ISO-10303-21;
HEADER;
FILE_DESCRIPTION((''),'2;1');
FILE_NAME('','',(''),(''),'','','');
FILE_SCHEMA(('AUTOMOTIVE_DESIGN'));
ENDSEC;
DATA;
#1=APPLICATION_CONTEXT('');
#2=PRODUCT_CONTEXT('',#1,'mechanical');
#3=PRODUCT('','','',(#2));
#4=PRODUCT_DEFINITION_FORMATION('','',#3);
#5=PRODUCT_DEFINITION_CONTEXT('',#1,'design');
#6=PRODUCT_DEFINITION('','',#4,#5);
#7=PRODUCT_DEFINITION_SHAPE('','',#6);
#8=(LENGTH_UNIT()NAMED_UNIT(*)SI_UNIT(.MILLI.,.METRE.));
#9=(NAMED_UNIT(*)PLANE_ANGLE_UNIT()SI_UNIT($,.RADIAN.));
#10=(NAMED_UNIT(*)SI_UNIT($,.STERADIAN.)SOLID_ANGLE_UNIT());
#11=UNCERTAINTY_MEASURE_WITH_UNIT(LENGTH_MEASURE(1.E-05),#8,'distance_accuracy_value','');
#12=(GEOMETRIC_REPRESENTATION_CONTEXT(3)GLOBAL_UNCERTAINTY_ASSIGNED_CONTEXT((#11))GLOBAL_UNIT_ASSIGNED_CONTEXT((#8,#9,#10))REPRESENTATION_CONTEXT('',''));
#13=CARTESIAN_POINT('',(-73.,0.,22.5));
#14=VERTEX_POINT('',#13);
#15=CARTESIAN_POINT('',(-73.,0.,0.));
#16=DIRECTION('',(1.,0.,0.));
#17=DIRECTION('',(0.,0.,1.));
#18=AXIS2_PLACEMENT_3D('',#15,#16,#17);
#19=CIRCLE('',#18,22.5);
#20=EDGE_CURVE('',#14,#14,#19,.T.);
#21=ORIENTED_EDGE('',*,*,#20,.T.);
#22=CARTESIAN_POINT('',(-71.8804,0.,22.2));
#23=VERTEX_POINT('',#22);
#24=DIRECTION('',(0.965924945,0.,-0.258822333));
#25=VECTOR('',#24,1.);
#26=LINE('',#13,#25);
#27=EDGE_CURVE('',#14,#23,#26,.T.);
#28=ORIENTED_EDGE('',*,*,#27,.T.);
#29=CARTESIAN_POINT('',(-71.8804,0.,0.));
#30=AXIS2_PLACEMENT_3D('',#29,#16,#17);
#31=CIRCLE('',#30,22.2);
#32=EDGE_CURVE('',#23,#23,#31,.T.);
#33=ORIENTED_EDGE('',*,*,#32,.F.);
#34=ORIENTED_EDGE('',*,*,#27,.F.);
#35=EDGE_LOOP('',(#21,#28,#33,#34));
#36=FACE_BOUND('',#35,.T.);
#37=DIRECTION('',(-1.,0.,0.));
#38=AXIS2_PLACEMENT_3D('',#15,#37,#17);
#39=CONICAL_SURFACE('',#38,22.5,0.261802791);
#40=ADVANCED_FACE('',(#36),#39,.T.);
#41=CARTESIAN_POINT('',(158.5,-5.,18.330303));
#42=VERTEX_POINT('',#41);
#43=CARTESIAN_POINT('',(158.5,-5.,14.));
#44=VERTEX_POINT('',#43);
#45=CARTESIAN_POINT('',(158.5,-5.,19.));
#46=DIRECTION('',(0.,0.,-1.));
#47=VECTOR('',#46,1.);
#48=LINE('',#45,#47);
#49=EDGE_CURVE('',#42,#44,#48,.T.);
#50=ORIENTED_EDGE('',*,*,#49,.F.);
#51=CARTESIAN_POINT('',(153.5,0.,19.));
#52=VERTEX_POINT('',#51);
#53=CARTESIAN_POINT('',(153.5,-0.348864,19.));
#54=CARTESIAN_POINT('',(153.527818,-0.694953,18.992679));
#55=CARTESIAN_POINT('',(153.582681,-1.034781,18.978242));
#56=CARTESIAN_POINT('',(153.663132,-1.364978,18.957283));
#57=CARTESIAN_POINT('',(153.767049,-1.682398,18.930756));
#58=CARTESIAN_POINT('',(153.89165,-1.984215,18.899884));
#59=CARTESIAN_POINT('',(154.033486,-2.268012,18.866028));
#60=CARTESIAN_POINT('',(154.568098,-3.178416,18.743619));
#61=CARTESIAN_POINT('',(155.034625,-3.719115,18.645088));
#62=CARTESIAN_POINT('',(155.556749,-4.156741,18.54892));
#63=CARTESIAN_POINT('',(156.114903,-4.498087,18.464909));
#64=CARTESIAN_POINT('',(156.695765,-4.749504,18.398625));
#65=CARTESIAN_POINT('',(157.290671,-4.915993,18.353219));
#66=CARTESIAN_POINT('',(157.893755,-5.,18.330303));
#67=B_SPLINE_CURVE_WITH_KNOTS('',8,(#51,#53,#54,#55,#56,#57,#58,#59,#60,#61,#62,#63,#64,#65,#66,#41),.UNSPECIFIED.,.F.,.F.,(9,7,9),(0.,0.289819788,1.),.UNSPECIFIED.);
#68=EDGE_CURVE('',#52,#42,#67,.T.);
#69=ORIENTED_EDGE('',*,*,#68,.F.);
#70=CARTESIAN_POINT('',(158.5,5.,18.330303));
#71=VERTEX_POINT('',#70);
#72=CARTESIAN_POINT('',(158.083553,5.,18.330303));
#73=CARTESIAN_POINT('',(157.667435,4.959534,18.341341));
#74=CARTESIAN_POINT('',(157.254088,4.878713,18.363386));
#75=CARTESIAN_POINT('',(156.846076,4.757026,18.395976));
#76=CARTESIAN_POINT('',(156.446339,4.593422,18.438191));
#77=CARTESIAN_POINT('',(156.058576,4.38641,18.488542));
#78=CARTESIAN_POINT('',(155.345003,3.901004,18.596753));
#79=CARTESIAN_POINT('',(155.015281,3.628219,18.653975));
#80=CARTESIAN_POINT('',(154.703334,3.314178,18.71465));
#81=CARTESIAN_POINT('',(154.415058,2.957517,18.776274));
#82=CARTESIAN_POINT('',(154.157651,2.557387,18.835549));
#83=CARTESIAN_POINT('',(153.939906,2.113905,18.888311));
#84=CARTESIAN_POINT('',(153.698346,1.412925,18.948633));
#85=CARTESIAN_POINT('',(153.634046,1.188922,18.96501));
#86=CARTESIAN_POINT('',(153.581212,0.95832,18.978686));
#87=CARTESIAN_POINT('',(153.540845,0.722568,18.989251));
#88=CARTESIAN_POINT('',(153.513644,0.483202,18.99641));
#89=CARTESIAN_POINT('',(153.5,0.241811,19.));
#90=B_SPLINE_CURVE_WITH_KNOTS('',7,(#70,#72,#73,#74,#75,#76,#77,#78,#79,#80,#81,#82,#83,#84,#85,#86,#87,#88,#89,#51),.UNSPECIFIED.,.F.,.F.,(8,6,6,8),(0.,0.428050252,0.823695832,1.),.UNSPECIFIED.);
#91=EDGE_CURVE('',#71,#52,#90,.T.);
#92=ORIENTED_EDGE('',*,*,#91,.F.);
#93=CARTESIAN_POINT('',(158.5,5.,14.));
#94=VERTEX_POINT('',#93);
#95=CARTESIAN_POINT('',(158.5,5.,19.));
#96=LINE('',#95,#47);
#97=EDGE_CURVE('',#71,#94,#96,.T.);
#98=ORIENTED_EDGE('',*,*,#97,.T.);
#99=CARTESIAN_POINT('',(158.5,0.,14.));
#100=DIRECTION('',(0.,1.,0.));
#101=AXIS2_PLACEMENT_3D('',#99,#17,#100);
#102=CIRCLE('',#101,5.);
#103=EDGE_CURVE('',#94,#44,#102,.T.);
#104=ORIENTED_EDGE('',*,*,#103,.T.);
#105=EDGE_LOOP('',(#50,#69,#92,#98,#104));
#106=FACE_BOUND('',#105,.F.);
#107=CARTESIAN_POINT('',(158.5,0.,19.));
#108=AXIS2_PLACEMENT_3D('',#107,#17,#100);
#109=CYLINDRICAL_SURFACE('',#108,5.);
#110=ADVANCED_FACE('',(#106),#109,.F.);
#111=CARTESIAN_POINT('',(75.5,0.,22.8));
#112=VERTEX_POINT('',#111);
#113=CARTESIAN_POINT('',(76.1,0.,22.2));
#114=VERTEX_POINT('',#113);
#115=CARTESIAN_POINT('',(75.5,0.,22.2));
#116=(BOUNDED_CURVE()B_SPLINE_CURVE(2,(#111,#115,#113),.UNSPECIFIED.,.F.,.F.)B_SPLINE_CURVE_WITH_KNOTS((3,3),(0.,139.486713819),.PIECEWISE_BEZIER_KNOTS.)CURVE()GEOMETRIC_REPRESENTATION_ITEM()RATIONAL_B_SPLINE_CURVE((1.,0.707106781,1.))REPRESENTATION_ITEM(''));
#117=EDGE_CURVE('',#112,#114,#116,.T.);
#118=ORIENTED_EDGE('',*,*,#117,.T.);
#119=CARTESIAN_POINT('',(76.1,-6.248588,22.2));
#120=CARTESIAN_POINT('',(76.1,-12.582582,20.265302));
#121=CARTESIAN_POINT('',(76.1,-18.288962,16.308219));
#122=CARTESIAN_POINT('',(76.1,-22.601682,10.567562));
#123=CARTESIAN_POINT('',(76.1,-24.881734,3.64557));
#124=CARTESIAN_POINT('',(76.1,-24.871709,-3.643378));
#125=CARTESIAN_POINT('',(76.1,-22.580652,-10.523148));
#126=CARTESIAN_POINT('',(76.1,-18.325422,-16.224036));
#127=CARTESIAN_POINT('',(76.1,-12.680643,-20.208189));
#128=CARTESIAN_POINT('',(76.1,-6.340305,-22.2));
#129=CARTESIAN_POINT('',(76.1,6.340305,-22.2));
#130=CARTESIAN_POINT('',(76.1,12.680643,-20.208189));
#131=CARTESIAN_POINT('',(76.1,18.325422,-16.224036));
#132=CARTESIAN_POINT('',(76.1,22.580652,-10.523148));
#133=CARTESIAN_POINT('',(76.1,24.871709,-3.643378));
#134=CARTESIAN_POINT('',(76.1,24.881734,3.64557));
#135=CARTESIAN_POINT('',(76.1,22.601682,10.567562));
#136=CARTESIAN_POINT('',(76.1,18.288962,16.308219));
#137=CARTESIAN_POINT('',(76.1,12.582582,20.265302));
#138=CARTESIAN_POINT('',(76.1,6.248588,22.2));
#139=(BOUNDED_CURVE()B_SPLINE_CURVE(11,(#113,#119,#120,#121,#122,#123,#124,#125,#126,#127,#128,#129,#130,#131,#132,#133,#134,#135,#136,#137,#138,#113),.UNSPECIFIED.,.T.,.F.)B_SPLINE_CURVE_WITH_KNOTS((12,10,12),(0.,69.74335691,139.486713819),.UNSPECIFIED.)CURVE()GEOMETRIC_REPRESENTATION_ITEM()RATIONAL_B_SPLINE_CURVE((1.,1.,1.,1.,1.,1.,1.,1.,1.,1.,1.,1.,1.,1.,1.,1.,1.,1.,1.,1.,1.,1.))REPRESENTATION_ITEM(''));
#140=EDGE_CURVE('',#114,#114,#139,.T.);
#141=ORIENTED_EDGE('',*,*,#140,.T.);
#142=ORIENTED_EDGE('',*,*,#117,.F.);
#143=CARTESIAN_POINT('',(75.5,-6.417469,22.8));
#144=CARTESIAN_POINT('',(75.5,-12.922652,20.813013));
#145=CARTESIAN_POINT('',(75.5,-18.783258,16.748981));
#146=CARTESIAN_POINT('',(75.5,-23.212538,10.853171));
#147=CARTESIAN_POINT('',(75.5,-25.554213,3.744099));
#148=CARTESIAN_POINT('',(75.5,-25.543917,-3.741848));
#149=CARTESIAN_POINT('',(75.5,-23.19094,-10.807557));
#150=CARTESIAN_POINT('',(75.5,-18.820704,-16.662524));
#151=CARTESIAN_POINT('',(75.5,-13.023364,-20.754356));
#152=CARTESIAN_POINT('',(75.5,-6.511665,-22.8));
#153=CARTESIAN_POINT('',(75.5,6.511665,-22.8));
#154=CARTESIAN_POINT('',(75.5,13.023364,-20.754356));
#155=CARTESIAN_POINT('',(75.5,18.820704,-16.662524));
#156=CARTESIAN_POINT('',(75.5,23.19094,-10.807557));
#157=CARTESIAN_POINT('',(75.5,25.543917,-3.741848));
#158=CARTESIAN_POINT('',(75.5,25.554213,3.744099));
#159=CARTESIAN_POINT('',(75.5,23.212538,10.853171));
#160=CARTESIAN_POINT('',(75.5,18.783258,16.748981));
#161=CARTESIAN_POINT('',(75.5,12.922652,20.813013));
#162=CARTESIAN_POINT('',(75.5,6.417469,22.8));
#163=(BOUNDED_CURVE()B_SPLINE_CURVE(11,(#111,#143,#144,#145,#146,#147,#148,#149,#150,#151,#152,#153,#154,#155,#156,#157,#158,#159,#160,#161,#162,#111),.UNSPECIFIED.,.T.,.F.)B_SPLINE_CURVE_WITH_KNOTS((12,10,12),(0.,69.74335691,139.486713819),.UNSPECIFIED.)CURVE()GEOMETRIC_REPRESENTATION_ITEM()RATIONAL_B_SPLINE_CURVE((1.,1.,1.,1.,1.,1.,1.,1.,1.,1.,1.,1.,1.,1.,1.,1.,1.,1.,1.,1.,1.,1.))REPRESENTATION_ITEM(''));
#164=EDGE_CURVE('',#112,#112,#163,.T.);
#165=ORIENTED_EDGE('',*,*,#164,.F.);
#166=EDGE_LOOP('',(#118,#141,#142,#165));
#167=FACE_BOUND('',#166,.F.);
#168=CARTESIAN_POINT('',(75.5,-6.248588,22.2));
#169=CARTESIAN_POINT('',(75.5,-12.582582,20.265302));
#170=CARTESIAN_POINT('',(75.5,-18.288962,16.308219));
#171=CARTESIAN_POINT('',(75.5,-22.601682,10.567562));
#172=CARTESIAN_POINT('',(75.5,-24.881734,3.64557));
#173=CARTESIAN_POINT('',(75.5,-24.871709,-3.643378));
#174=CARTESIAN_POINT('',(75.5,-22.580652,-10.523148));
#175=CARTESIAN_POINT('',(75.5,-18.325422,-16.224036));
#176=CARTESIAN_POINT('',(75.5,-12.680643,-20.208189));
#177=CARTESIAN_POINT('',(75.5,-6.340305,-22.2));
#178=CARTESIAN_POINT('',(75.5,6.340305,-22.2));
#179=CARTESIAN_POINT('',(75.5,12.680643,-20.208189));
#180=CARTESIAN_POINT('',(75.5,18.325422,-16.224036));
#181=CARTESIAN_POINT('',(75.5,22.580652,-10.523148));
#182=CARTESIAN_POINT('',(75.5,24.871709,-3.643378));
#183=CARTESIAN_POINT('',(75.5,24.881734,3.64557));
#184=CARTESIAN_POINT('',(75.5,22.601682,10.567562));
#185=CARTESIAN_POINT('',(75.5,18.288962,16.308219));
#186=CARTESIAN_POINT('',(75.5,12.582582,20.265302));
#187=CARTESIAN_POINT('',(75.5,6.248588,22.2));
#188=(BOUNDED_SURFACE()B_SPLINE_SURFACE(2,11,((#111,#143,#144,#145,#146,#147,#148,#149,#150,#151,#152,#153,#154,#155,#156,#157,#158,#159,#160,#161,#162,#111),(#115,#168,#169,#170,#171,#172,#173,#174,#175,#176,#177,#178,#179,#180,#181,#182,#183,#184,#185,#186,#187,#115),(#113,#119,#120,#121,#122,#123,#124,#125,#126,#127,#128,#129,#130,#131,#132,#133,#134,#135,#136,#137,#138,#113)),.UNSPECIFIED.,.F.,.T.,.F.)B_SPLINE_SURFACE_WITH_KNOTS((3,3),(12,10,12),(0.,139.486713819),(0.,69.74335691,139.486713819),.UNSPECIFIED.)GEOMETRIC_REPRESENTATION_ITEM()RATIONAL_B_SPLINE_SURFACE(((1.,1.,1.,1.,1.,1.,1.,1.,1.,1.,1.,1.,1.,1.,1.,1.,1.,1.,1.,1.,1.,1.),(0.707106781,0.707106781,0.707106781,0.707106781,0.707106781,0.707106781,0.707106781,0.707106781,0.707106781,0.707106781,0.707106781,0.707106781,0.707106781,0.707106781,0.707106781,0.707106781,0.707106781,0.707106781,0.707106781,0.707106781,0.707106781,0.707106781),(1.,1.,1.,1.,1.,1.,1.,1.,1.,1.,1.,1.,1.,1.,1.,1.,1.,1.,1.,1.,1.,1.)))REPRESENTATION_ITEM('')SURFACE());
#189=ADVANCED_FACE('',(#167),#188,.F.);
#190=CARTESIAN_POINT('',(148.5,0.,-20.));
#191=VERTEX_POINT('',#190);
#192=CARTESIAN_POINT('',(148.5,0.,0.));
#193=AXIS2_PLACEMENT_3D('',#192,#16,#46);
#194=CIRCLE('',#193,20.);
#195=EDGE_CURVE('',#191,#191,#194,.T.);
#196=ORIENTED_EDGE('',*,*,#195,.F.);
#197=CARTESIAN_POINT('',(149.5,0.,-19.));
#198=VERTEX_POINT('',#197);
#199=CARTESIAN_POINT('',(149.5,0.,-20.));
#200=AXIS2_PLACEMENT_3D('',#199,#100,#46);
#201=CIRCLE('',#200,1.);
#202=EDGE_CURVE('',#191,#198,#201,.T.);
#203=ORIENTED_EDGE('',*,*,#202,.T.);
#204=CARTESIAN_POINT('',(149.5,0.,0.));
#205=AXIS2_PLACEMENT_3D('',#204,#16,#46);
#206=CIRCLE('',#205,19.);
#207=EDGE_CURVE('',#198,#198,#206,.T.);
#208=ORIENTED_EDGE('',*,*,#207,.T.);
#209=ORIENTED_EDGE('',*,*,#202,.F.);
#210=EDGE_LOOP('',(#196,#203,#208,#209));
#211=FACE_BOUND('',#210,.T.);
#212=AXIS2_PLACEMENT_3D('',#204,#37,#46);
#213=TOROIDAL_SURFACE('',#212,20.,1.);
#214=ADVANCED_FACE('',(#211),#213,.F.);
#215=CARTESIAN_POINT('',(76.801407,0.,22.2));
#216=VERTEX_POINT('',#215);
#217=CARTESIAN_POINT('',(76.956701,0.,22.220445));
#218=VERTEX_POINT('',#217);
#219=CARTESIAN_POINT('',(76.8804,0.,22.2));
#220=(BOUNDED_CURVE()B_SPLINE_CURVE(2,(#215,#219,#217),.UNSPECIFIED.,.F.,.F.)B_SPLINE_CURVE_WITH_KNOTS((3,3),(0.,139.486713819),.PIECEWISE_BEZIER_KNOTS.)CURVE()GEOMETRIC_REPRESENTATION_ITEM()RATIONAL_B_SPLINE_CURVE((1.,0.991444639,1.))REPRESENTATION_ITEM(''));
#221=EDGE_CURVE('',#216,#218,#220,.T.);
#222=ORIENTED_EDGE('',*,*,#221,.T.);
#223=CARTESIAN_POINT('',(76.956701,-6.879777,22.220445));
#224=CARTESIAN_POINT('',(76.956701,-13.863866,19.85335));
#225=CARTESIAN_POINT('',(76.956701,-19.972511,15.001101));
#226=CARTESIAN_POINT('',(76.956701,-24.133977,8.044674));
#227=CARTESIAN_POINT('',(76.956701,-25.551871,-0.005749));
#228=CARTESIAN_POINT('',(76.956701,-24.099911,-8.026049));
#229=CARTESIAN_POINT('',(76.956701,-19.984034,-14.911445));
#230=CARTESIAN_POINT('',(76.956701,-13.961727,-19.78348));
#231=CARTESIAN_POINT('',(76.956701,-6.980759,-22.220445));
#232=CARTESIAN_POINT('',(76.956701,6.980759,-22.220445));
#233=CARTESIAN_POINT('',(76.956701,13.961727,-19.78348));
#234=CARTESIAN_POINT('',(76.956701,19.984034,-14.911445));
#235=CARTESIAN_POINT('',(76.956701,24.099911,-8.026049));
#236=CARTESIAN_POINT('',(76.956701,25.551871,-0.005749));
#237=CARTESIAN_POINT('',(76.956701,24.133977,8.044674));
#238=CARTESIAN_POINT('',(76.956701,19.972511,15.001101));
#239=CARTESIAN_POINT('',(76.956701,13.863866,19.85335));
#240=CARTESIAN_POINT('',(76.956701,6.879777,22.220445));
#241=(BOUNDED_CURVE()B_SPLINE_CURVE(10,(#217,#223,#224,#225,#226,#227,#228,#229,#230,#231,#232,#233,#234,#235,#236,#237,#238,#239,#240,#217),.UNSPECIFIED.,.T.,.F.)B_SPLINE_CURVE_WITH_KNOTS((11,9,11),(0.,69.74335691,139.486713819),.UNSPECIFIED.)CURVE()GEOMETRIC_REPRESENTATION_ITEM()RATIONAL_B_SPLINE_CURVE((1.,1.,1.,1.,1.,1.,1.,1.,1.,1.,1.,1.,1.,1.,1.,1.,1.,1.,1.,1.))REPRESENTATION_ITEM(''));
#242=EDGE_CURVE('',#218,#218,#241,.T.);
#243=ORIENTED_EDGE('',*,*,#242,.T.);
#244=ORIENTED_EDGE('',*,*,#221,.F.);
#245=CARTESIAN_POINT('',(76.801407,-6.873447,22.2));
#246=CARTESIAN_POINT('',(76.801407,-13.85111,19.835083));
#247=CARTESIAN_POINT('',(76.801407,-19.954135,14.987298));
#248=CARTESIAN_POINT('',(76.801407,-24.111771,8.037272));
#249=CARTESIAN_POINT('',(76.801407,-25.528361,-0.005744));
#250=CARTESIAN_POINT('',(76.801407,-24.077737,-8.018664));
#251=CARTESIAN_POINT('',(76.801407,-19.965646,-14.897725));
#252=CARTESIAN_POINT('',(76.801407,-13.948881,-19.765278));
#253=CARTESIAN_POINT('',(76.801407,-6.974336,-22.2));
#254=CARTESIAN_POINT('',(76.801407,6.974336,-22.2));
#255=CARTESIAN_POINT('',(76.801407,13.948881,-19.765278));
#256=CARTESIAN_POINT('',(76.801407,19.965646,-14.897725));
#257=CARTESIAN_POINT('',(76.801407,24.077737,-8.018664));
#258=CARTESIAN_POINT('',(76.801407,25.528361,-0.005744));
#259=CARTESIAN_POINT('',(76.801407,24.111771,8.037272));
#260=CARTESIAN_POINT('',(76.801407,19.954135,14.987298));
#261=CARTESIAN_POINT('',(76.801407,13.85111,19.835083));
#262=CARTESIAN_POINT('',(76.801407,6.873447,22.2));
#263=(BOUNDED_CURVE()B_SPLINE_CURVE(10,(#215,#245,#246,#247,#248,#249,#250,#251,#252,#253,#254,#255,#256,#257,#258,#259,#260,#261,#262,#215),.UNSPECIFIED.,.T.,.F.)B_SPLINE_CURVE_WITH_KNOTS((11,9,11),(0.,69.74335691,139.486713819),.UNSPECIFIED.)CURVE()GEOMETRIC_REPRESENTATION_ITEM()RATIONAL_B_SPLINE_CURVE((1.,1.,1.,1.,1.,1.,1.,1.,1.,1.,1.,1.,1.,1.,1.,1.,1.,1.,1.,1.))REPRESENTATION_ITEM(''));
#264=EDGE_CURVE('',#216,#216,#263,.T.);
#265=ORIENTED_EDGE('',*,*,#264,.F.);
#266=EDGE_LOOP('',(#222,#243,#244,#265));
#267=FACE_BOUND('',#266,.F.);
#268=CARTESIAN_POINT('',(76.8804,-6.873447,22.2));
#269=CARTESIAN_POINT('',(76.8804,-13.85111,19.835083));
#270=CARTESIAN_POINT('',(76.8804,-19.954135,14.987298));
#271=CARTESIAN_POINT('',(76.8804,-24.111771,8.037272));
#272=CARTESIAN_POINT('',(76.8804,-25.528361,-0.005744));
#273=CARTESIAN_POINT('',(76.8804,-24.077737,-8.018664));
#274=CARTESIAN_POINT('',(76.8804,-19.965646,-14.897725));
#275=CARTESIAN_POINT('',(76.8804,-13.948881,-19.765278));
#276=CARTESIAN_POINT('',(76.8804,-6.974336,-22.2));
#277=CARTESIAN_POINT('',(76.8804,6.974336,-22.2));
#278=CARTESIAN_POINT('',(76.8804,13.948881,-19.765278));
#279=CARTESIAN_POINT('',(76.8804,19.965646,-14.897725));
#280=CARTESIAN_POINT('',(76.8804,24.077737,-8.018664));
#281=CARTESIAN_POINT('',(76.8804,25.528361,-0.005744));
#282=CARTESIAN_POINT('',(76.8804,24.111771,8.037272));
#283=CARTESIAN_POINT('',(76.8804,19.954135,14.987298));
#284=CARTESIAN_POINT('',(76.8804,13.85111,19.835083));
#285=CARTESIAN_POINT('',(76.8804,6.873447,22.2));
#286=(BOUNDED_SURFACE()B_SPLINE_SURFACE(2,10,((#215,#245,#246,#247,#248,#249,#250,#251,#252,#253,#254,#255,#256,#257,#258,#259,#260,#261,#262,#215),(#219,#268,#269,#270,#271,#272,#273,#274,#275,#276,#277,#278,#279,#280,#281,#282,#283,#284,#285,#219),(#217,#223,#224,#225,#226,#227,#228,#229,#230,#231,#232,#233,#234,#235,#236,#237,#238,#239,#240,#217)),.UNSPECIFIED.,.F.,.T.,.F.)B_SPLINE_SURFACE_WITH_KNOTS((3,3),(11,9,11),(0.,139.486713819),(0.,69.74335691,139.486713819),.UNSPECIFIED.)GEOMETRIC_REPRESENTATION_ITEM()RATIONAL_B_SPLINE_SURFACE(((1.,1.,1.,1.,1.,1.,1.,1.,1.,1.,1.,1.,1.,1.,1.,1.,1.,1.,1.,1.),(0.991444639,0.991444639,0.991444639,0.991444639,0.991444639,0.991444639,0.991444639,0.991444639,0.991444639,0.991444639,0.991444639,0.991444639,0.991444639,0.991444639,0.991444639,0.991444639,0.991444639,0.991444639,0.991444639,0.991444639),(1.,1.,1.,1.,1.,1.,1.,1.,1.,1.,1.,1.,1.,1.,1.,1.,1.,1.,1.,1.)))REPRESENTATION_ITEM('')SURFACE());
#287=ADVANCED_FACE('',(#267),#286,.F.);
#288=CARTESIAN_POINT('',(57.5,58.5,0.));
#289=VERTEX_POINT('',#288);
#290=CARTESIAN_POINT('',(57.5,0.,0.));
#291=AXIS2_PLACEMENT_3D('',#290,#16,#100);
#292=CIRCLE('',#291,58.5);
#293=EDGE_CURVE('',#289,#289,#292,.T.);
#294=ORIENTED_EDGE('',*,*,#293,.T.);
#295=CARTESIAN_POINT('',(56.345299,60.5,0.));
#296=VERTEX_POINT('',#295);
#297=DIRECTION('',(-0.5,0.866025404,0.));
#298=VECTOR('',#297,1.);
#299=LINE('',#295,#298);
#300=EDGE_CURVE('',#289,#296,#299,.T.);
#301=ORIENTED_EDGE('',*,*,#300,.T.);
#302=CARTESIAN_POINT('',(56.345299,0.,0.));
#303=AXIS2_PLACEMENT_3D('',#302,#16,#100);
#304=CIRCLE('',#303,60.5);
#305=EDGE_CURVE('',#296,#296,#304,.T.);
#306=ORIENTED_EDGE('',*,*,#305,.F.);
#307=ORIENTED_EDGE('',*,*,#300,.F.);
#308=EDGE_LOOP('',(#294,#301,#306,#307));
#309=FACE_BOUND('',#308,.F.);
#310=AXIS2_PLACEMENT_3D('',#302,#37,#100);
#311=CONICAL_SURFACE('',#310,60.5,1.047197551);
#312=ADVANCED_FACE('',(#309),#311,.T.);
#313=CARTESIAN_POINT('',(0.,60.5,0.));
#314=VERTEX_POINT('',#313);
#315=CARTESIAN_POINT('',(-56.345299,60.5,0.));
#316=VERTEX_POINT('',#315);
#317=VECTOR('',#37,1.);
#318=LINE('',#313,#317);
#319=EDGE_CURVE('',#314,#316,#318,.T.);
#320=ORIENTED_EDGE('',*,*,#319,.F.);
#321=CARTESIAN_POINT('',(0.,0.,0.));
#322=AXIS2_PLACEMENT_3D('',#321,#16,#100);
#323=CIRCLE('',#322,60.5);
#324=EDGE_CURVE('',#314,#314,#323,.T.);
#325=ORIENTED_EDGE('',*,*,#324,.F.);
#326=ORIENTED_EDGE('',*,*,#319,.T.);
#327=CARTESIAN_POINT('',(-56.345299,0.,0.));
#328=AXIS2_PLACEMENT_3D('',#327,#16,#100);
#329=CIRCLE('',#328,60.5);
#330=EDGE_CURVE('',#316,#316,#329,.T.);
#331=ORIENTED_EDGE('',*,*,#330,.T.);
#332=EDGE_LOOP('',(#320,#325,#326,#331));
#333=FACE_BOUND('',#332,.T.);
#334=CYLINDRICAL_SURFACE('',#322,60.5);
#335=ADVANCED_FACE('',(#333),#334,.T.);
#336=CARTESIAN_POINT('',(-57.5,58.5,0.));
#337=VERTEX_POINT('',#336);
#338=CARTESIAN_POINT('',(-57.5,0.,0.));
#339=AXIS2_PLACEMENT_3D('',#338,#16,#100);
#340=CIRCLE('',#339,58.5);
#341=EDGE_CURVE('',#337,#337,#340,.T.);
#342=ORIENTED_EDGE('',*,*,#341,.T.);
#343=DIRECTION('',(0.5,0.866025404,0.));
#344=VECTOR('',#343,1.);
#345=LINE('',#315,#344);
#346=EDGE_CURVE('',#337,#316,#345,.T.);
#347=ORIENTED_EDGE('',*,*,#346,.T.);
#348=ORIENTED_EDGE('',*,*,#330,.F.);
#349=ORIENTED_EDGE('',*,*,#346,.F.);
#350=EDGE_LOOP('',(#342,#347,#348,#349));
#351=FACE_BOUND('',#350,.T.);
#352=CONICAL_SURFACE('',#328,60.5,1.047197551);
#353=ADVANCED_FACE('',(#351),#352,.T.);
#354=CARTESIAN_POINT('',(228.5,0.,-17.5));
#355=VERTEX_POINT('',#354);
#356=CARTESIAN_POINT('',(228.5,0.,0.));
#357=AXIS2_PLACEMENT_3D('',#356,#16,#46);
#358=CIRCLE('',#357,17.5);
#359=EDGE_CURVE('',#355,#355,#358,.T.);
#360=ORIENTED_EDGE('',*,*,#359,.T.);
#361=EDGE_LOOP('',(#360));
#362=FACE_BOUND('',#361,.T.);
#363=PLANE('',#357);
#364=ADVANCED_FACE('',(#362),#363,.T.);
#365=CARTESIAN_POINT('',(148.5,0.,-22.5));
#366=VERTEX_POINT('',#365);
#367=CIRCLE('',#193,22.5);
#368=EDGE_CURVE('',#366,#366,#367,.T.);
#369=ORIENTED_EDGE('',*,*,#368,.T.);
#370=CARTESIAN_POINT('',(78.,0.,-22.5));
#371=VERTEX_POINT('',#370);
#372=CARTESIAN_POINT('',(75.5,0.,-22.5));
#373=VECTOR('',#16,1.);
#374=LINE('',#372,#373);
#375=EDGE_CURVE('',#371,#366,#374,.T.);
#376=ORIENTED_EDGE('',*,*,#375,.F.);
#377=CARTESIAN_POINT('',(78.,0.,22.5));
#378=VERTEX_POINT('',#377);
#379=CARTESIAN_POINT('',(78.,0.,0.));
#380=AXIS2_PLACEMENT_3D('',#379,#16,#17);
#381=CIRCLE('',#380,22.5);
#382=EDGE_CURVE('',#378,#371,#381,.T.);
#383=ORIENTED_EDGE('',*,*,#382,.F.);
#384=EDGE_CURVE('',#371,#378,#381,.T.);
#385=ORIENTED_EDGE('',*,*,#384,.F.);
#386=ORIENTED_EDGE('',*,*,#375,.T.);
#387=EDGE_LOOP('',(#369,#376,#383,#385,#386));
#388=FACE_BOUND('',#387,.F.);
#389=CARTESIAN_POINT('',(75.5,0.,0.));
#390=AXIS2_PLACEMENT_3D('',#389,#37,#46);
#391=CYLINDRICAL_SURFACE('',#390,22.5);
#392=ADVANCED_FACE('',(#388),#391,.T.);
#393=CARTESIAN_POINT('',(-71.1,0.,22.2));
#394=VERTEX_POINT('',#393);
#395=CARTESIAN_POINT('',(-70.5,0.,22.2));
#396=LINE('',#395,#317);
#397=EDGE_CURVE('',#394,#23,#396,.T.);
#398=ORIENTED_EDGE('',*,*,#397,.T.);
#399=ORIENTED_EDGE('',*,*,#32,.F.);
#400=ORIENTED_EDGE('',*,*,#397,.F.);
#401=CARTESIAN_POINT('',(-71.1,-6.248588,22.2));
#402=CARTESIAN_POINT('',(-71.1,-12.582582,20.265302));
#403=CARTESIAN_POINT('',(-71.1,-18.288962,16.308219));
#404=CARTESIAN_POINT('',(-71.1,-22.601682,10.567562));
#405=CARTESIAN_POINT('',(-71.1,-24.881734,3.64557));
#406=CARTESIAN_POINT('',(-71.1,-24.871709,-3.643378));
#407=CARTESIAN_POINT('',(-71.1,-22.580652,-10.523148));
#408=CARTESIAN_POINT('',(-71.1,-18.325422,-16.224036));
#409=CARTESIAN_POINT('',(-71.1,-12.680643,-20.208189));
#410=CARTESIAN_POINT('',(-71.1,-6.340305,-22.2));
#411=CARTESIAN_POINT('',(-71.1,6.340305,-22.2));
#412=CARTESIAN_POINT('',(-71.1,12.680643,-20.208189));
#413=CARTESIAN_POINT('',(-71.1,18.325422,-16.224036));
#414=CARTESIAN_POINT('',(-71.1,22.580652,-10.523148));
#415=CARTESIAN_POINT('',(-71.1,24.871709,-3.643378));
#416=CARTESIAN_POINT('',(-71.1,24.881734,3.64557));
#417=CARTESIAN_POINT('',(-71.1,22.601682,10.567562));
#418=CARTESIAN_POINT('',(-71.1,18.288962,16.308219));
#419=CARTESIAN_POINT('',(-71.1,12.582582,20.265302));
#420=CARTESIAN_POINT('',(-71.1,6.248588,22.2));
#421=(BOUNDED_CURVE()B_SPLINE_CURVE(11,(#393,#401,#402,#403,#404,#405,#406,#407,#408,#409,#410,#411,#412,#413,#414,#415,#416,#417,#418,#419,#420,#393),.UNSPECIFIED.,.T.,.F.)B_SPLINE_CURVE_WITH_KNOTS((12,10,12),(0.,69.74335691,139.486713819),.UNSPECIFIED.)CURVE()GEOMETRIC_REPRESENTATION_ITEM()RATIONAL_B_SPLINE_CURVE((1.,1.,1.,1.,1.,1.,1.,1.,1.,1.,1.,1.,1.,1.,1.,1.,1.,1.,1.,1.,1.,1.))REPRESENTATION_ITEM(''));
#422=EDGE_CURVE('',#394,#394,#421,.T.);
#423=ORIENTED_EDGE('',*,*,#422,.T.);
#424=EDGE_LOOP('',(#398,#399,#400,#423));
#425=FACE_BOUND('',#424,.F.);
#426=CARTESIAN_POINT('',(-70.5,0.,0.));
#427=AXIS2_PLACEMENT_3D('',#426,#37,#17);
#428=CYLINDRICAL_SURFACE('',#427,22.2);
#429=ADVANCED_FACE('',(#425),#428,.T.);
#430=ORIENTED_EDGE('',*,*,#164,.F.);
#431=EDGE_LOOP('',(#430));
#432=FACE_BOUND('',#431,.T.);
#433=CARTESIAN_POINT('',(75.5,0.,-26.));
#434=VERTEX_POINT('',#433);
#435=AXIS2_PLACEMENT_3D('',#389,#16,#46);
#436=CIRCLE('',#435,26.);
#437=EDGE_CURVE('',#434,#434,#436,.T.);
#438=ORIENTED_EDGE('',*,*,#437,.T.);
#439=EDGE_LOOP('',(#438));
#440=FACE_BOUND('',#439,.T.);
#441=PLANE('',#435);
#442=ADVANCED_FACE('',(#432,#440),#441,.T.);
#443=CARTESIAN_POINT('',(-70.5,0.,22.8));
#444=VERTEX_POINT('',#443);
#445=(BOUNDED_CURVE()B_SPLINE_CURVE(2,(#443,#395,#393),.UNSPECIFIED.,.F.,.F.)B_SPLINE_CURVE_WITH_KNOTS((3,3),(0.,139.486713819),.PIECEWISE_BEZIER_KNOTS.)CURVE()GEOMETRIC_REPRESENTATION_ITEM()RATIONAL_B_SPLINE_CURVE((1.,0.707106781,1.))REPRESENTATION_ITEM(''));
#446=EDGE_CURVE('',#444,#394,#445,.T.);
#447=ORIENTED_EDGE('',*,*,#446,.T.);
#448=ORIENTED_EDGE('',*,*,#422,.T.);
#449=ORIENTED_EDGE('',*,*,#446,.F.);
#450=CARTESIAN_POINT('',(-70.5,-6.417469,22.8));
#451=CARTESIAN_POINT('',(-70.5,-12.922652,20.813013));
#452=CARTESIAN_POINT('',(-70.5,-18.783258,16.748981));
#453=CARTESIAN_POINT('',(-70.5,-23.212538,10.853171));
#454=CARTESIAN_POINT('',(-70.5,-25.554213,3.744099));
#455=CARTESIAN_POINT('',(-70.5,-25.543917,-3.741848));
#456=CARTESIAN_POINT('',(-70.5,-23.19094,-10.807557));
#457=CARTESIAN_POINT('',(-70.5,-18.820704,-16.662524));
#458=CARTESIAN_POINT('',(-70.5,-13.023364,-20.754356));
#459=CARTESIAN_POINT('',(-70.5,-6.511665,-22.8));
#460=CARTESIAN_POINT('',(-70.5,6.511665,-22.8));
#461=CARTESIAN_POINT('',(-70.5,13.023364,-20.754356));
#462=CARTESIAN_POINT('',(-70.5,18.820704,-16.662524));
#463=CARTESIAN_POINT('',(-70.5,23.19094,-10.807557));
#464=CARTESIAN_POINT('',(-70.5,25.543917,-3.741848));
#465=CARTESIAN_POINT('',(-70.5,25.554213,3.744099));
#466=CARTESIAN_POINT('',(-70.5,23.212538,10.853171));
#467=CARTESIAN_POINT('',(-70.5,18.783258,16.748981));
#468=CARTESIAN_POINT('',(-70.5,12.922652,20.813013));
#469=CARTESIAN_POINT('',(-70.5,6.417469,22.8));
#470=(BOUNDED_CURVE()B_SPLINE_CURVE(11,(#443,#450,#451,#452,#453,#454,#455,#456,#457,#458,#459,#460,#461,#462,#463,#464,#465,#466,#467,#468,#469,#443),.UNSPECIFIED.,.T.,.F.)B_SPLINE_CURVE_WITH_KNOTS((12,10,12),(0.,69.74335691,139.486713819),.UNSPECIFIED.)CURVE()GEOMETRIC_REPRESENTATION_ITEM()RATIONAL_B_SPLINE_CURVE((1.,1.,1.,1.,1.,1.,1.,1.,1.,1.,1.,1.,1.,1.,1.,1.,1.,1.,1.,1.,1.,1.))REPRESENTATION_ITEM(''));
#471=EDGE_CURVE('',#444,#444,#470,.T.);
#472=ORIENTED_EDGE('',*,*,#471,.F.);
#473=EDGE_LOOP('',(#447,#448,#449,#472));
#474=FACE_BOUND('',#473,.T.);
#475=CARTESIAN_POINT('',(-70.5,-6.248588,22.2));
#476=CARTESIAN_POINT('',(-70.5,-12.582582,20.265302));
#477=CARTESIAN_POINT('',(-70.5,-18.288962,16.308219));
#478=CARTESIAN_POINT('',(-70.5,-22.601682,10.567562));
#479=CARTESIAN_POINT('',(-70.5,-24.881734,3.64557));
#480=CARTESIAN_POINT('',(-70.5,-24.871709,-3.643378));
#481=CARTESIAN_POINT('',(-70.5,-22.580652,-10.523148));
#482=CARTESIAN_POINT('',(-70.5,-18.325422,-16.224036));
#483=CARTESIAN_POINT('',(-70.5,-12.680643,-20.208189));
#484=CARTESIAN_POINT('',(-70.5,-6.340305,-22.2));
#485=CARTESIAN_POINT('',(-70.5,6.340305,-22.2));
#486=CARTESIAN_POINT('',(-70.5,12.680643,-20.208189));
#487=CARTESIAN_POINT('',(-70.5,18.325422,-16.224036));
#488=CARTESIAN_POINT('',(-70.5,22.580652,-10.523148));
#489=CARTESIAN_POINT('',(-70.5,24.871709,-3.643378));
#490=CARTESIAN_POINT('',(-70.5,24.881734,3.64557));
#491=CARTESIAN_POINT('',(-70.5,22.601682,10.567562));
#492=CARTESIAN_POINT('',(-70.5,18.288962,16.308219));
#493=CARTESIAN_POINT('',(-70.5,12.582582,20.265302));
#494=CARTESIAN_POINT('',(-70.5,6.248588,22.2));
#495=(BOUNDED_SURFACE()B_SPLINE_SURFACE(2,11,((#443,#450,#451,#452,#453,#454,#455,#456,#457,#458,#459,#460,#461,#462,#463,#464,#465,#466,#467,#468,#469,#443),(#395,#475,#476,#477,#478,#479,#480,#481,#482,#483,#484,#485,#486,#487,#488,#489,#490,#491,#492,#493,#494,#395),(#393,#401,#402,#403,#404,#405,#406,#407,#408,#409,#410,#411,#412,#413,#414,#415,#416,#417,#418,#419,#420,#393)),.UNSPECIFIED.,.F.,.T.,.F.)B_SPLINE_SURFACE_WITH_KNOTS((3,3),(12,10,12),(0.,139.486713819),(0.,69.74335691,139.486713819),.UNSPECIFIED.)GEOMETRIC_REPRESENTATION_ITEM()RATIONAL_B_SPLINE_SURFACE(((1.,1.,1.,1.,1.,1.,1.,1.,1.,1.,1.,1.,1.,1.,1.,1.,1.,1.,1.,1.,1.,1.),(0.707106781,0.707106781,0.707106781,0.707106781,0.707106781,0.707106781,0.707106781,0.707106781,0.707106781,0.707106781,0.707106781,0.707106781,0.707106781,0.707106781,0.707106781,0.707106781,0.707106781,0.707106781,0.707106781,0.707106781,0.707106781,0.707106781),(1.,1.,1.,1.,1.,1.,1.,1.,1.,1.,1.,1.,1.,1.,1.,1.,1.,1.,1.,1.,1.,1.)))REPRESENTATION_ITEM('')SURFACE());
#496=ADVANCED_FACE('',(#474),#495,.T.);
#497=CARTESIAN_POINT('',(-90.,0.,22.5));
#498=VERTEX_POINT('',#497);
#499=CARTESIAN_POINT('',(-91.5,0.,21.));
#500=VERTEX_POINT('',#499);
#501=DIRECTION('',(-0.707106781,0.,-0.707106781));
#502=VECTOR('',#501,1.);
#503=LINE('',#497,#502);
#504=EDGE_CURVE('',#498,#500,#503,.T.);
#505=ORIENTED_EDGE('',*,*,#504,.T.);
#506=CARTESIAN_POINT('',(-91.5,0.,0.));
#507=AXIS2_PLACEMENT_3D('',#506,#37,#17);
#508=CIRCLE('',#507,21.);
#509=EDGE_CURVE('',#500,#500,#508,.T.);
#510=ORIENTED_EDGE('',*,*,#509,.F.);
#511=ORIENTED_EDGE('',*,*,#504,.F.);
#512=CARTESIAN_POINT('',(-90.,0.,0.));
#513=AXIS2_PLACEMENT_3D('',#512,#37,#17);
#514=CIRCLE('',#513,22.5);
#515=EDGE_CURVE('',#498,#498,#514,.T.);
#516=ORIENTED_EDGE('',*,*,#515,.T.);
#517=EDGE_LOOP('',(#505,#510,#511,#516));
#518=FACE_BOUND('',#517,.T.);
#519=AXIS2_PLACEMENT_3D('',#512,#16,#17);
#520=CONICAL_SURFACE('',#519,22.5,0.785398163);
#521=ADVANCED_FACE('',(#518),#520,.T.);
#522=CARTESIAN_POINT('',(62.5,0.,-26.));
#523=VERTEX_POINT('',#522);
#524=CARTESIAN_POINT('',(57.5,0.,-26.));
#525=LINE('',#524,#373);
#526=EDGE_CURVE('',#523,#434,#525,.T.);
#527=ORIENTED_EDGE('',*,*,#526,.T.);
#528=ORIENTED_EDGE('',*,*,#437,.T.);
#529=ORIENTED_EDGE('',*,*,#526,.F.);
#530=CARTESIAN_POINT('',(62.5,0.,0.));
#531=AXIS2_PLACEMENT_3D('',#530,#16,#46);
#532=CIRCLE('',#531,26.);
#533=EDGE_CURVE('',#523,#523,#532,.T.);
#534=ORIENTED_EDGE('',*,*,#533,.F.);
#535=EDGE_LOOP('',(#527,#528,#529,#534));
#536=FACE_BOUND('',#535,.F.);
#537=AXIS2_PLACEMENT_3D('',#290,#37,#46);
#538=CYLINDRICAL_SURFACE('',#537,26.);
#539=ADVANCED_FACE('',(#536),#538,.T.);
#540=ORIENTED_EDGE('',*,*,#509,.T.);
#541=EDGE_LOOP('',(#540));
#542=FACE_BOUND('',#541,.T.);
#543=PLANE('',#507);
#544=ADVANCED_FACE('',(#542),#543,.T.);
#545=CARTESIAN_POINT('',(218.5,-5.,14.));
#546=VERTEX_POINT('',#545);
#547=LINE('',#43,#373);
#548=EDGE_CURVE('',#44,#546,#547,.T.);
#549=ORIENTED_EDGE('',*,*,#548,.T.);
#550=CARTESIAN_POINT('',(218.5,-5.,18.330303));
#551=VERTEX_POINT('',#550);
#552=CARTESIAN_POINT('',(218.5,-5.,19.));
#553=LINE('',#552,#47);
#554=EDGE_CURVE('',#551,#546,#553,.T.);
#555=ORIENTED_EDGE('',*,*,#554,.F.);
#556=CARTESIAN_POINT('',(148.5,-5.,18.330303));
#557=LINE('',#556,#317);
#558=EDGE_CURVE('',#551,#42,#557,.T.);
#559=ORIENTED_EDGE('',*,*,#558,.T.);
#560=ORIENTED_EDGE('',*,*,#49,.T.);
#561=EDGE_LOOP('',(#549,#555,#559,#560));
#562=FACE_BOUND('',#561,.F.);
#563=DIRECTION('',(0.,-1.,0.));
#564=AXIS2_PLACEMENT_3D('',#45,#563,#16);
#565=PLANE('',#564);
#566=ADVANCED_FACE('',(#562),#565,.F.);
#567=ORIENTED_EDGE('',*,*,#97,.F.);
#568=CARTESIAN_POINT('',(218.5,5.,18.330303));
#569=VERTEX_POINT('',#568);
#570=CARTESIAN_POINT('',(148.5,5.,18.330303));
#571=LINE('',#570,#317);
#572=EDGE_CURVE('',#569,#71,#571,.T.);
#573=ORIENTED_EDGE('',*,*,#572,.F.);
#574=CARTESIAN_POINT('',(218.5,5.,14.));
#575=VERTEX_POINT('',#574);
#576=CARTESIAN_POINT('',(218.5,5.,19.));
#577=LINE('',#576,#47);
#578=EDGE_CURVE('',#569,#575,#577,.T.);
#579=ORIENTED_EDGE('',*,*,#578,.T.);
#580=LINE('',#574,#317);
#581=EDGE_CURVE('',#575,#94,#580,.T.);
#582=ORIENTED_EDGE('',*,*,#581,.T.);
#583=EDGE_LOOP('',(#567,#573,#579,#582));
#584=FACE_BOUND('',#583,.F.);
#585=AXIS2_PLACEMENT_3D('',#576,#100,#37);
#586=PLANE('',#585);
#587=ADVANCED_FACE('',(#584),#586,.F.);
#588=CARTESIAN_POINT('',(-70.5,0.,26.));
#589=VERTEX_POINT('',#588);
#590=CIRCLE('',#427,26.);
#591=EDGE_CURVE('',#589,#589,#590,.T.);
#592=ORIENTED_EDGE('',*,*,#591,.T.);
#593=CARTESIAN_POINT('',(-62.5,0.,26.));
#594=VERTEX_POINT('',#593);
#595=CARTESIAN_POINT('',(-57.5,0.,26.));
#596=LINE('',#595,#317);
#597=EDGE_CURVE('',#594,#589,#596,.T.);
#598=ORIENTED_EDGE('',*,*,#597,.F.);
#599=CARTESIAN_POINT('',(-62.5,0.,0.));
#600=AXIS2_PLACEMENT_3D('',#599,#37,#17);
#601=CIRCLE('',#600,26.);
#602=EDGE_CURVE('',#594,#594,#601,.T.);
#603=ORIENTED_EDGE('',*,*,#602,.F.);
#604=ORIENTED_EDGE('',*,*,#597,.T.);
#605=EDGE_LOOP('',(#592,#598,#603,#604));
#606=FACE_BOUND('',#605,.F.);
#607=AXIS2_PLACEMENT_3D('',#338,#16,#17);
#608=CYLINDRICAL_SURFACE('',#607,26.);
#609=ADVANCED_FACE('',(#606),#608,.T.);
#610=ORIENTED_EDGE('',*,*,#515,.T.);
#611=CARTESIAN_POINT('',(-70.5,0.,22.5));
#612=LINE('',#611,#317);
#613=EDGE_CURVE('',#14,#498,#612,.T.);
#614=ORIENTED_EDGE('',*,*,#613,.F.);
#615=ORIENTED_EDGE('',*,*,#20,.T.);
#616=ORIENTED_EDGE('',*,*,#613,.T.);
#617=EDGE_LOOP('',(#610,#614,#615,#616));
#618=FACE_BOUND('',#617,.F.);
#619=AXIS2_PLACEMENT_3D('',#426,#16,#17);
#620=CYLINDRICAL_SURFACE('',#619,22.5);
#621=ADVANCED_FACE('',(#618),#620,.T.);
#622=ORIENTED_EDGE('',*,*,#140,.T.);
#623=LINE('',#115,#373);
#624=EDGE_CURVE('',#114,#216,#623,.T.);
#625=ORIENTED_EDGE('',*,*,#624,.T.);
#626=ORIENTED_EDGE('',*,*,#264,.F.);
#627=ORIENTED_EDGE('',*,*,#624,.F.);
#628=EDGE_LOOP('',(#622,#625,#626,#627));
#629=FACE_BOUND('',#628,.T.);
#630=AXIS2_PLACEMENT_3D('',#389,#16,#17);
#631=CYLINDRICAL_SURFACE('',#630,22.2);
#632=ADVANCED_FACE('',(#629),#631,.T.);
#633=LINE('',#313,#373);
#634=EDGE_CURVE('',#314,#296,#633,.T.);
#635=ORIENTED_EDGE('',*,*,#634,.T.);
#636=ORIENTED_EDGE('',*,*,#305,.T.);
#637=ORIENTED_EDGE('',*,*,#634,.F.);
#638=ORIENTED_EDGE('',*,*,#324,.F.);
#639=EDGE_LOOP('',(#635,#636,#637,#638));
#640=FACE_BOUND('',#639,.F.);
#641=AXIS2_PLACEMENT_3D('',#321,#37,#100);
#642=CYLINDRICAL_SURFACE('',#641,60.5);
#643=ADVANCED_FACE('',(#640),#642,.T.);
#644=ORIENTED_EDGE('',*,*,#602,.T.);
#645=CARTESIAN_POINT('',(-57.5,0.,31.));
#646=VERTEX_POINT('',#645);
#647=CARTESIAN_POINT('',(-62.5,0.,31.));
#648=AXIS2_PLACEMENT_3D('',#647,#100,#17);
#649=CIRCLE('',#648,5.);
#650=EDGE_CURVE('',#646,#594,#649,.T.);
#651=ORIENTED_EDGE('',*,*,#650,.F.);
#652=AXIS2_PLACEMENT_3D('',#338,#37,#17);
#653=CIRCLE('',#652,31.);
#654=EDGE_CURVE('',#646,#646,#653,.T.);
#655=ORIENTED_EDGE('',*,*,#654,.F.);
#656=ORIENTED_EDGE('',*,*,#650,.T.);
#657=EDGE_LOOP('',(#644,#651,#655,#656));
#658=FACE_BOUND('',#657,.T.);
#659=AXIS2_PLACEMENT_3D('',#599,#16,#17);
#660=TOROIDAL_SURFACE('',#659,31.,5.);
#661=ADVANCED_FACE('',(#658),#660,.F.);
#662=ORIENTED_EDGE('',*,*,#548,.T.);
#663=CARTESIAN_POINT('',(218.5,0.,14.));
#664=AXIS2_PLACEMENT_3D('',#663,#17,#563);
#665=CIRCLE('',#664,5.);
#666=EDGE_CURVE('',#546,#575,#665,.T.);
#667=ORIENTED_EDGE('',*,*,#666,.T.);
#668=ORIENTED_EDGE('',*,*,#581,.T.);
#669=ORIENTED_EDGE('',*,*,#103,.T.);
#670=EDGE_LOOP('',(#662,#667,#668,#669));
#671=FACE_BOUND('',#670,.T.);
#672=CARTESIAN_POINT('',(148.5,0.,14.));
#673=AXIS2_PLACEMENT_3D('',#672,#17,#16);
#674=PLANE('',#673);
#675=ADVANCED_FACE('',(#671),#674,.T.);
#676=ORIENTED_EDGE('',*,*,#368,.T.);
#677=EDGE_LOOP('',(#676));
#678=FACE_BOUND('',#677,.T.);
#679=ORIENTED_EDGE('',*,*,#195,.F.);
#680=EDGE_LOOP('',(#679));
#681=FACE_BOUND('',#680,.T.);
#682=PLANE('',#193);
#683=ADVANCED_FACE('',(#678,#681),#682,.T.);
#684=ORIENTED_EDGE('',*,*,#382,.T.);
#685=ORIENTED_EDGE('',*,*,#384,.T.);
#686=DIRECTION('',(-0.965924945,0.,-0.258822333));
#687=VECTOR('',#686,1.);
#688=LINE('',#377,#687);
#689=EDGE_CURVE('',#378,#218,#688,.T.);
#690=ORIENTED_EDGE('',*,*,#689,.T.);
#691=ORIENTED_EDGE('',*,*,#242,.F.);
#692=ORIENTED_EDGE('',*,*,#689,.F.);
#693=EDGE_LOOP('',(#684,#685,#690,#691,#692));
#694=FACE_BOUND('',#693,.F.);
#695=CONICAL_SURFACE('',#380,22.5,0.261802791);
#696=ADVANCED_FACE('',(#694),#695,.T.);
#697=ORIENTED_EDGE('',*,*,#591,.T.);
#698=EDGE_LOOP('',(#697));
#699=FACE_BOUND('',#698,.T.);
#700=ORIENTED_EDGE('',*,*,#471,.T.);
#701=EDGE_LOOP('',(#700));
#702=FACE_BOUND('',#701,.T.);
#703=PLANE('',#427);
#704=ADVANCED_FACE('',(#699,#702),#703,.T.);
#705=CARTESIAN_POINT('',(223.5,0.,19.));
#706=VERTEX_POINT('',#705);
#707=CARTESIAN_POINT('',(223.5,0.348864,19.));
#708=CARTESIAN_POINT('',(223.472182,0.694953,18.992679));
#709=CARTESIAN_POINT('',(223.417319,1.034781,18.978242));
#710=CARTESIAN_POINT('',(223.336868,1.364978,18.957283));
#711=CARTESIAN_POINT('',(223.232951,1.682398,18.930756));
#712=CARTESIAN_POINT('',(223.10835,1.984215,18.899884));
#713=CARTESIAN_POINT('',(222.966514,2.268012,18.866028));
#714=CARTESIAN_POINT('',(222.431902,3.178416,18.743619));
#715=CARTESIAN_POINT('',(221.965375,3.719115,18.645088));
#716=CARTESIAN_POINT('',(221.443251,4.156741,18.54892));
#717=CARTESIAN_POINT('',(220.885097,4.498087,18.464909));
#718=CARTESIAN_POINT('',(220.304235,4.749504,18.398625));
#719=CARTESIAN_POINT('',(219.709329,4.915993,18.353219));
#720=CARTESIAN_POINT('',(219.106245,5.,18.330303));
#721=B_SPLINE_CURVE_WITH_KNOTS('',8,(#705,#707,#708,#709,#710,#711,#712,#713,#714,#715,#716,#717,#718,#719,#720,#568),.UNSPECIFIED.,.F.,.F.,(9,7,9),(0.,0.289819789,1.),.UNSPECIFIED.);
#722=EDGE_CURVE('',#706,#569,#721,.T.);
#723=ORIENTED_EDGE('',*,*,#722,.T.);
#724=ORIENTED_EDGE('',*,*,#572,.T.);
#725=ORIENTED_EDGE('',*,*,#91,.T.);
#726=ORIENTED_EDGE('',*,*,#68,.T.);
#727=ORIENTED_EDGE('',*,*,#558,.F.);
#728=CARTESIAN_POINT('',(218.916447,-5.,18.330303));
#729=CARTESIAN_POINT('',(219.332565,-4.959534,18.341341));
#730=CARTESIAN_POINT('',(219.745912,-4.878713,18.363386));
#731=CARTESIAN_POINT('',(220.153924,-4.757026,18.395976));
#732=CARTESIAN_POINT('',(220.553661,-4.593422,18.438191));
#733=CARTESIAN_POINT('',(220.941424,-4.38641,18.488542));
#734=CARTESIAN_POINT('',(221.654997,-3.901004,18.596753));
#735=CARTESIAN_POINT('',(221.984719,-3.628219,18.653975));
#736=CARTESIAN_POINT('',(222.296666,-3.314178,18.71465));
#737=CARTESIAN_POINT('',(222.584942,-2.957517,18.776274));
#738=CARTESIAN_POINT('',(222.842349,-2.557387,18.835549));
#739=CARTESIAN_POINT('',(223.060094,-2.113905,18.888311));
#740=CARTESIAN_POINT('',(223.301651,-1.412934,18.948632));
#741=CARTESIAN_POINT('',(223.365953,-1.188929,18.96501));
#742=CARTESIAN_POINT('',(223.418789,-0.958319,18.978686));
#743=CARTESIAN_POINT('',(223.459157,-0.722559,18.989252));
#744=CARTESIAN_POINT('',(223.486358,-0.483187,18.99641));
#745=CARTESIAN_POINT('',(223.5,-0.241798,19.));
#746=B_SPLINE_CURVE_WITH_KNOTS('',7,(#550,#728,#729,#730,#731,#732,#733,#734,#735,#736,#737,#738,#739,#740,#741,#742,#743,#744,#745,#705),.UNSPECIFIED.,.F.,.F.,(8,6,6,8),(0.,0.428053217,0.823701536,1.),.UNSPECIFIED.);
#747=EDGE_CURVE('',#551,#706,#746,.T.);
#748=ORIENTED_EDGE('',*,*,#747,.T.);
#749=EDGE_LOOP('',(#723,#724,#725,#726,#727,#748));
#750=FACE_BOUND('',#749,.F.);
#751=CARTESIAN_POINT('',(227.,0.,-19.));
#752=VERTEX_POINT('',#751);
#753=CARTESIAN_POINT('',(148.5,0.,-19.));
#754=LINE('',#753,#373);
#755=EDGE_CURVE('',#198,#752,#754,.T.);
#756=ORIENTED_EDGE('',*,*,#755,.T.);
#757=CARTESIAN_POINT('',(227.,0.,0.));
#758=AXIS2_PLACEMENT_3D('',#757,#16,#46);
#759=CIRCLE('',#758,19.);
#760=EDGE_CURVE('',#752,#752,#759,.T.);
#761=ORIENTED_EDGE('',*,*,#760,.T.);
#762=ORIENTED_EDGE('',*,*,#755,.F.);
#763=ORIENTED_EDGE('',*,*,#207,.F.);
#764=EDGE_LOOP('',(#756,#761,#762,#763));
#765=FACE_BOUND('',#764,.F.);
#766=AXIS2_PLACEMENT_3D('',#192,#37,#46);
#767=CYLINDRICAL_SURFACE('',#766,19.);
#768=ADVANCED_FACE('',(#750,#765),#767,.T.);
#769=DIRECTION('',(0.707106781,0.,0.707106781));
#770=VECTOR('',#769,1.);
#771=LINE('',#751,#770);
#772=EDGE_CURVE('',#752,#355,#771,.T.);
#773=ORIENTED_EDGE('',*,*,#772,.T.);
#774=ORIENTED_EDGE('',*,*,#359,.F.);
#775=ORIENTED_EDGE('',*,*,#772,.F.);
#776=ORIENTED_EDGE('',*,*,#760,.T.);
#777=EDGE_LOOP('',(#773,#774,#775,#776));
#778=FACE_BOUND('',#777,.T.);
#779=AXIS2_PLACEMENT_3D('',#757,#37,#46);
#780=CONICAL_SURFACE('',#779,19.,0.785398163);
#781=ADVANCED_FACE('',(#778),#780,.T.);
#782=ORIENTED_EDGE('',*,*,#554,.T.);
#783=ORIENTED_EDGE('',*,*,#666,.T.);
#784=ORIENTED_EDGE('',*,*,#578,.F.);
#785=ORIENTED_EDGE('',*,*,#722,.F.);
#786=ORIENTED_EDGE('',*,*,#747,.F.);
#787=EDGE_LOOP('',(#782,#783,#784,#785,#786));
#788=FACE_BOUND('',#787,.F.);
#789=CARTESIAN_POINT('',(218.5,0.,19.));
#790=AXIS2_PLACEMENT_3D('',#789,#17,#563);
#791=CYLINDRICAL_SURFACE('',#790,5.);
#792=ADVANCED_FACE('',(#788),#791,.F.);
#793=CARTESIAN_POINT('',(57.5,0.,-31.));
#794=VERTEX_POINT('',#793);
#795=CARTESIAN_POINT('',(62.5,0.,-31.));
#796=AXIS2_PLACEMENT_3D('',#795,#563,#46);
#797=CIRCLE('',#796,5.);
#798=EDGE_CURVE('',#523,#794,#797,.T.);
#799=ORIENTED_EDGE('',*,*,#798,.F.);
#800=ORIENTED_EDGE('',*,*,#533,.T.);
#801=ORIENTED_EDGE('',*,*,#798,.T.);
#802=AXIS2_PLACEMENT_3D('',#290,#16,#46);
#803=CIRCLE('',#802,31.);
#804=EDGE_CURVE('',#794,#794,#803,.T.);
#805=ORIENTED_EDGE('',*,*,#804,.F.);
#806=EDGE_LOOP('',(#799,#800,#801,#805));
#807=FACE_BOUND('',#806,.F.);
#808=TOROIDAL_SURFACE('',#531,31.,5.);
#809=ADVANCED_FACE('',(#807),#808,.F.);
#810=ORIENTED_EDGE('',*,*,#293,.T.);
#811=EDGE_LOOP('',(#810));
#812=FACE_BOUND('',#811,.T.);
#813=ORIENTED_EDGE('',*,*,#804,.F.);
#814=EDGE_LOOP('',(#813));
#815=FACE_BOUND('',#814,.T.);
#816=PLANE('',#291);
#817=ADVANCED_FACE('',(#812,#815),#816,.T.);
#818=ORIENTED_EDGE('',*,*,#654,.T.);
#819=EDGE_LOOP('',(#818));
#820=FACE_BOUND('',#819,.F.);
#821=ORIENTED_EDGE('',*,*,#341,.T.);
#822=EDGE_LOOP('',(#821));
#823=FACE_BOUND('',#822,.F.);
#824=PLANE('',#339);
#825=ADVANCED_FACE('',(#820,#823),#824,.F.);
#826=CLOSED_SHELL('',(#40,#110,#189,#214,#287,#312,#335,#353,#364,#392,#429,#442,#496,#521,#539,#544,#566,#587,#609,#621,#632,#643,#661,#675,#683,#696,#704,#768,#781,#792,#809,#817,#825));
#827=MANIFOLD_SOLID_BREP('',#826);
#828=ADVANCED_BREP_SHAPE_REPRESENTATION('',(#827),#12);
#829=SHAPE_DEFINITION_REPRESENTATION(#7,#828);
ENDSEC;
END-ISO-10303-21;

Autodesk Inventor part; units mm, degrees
ref_plane "YZ Plane" through (0, 0, 0) normal (1, 0, 0) x (0, 1, 0)
ref_plane "XZ Plane" through (0, 0, 0) normal (0, 1, 0) x (-1, 0, 0)
sketch "Sketch1" plane through (0, 0, 0) normal (1, 0, 0) x (0, 1, 0)
  circle A0 centre (0, 0) radius 60.5
  dimension "d0" = 121
extrude "Extrusion1" add sketch "Sketch1" along normal mid plane 115
sketch "Sketch2" plane through (57.5, 0, 0) normal (1, 0, 0) x (0, 0, -1)
  circle A0 centre (0, 0) radius 26
  dimension "d3" = 52
extrude "Extrusion2" add sketch "Sketch2" along normal blind 18
sketch "Sketch3" plane through (75.5, 0, 0) normal (1, 0, 0) x (0, 0, -1)
  circle A0 centre (0, 0) radius 22.5
  dimension "d6" = 45
extrude "Extrusion3" add sketch "Sketch3" along normal blind 73
sketch "Sketch4" plane through (148.5, 0, 0) normal (1, 0, 0) x (0, 0, -1)
  circle A0 centre (0, 0) radius 19
  dimension "d9" = 38
extrude "Extrusion4" add sketch "Sketch4" along normal blind 80
sketch "Sketch9" plane through (-57.5, 0, 0) normal (-1, 0, 0) x (0, 0, 1)
  point P0 (0, 0)
sketch "Sketch10" plane through (-57.5, 0, 0) normal (-1, 0, 0) x (0, 0, 1)
  circle A0 centre (0, 0) radius 26
  dimension "d45" = 52
extrude "Extrusion8" add sketch "Sketch10" along normal blind 13
sketch "Sketch11" plane through (-70.5, 0, 0) normal (-1, 0, 0) x (0, 0, 1)
  circle A0 centre (0, 0) radius 22.5
  dimension "d48" = 45
extrude "Extrusion9" add sketch "Sketch11" along normal blind 21
ref_plane "Work Plane1" through (148.5, 0, 19) normal (0, 0, 1) x (1, 0, 0)
sketch "Sketch6" plane through (148.5, 0, 19) normal (0, 0, 1) x (1, 0, 0)
  line L0 (10, 0) -> (70, 0) construction
  line L1 (10, -5) -> (70, -5)
  line L2 (70, 5) -> (10, 5)
  arc A0 (10, 5) -> (10, -5) centre (10, 0) ccw
  arc A1 (70, -5) -> (70, 5) centre (70, 0) ccw
  line L3 (80, -19) -> (80, 19) construction
  line L4 (-263.2, 0) -> (137.2, 0) construction
  line L5 (0, -22.5) -> (0, 22.5) construction
  point P0 (-148.5, 0)
  point P1 (40, 0)
  dimension "d15" = 60
  dimension "d16" = 10
  dimension "d18" = 5
  dimension "d52" = 80
extrude "Extrusion6" cut sketch "Sketch6" against normal blind 5
sketch "Sketch7" plane through (0, 0, 0) normal (0, 1, 0) x (-1, 0, 0)
  line L0 (-57.5, -26) -> (-75.5, -26) construction
  line L1 (-75.5, -26) -> (-75.5, -22.5) construction
  line L2 (-75.5, -22.5) -> (-148.5, -22.5) construction
  line L3 (-148.5, -22.5) -> (-148.5, -19) construction
  line L4 (-148.5, -19) -> (-228.5, -19) construction
  line L5 (-228.5, -19) -> (-228.5, 19) construction
  line L6 (-228.5, 19) -> (-223.5, 19) construction
  line L7 (-223.5, 19) -> (-223.5, 14) construction
  line L8 (-223.5, 14) -> (-153.5, 14) construction
  line L9 (-153.5, 14) -> (-153.5, 19) construction
  line L10 (-153.5, 19) -> (-148.5, 19) construction
  line L11 (-148.5, 19) -> (-148.5, 22.5) construction
  line L12 (-148.5, 22.5) -> (-75.5, 22.5) construction
  line L13 (-75.5, 22.5) -> (-75.5, 26) construction
  line L14 (-75.5, 26) -> (-57.5, 26) construction
  line L15 (-57.5, 26) -> (-57.5, 60.5) construction
  line L16 (-57.5, 60.5) -> (57.5, 60.5) construction
  line L17 (57.5, 60.5) -> (57.5, 26) construction
  line L18 (57.5, -60.5) -> (-57.5, -60.5) construction
  line L19 (-57.5, -60.5) -> (-57.5, -26) construction
  line L20 (-78, 15.4374) -> (-78, 22.5) construction
  line L21 (-75.5, 22.5) -> (-148.5, 22.5) construction
  line L22 (-78, 22.5) -> (-75.5, 22.5)
  line L23 (-75.5, 22.2) -> (-76.8804, 22.2)
  line L24 (-75.5, 26) -> (-75.5, -26) construction
  line L25 (-78, 22.5) -> (-76.8804, 22.2)
  line L26 (-75.5, 22.5) -> (-78, 22.5) construction
  line L27 (-75.5, 22.5) -> (-75.5, 22.2)
  line L28 (125.9, 0) -> (-198.9, 0) projected
  line L29 (57.5, 26) -> (70.5, 26) projected
  line L30 (70.5, 26) -> (70.5, 22.5) projected
  line L31 (70.5, 22.5) -> (91.5, 22.5) projected
  line L32 (91.5, 22.5) -> (91.5, -22.5) projected
  line L33 (91.5, -22.5) -> (70.5, -22.5) projected
  line L34 (70.5, -22.5) -> (70.5, -26) projected
  line L35 (70.5, -26) -> (57.5, -26) projected
  line L36 (57.5, -26) -> (57.5, -60.5) projected
  point P0 (0, 0)
  dimension "d21" = 2.5
  dimension "d24" = 0.3
  dimension "d25" = 15
revolve "Revolution1" cut sketch "Sketch7" angle 360 about axis through (-10, 0, 0) along (1, 0, 0)
ref_plane "Work Plane2" through (2.5, 0, 0) normal (1, 0, 0) x (0, 0, -1)
mirror "Mirror3" about plane through (2.5, 0, 0) normal (1, 0, 0) of "Revolution1"
fillet "Fillet1" radius 0.6 2 edges at (75.5, 0, -22.2) (-70.5, 0, -22.2)
fillet "Fillet2" radius 0.6 1 edges at (76.8804, 0, -22.2)
fillet "Fillet5" radius 1 1 edges at (148.5, 0, 19)
fillet "Fillet6" radius 5 2 edges at (57.5, 0, 26) (-57.5, 0, -26)
chamfer "Chamfer1" distance 1.5 angle 45 2 edges at (228.5, 0, 19) (-91.5, 0, -22.5)
chamfer "Chamfer2" distance 2 angle 30 1 edges at (57.5, -60.5, 0) measured on face at (57.5, -50.429, -1.2455)
chamfer "Chamfer3" distance 2 angle 30 1 edges at (-57.5, -60.5, 0) measured on face at (-57.5, -50.429, 1.2455)
equation "\"d15\" = -2 * d18 + d52 - d16"
properties part number "vratilo"
